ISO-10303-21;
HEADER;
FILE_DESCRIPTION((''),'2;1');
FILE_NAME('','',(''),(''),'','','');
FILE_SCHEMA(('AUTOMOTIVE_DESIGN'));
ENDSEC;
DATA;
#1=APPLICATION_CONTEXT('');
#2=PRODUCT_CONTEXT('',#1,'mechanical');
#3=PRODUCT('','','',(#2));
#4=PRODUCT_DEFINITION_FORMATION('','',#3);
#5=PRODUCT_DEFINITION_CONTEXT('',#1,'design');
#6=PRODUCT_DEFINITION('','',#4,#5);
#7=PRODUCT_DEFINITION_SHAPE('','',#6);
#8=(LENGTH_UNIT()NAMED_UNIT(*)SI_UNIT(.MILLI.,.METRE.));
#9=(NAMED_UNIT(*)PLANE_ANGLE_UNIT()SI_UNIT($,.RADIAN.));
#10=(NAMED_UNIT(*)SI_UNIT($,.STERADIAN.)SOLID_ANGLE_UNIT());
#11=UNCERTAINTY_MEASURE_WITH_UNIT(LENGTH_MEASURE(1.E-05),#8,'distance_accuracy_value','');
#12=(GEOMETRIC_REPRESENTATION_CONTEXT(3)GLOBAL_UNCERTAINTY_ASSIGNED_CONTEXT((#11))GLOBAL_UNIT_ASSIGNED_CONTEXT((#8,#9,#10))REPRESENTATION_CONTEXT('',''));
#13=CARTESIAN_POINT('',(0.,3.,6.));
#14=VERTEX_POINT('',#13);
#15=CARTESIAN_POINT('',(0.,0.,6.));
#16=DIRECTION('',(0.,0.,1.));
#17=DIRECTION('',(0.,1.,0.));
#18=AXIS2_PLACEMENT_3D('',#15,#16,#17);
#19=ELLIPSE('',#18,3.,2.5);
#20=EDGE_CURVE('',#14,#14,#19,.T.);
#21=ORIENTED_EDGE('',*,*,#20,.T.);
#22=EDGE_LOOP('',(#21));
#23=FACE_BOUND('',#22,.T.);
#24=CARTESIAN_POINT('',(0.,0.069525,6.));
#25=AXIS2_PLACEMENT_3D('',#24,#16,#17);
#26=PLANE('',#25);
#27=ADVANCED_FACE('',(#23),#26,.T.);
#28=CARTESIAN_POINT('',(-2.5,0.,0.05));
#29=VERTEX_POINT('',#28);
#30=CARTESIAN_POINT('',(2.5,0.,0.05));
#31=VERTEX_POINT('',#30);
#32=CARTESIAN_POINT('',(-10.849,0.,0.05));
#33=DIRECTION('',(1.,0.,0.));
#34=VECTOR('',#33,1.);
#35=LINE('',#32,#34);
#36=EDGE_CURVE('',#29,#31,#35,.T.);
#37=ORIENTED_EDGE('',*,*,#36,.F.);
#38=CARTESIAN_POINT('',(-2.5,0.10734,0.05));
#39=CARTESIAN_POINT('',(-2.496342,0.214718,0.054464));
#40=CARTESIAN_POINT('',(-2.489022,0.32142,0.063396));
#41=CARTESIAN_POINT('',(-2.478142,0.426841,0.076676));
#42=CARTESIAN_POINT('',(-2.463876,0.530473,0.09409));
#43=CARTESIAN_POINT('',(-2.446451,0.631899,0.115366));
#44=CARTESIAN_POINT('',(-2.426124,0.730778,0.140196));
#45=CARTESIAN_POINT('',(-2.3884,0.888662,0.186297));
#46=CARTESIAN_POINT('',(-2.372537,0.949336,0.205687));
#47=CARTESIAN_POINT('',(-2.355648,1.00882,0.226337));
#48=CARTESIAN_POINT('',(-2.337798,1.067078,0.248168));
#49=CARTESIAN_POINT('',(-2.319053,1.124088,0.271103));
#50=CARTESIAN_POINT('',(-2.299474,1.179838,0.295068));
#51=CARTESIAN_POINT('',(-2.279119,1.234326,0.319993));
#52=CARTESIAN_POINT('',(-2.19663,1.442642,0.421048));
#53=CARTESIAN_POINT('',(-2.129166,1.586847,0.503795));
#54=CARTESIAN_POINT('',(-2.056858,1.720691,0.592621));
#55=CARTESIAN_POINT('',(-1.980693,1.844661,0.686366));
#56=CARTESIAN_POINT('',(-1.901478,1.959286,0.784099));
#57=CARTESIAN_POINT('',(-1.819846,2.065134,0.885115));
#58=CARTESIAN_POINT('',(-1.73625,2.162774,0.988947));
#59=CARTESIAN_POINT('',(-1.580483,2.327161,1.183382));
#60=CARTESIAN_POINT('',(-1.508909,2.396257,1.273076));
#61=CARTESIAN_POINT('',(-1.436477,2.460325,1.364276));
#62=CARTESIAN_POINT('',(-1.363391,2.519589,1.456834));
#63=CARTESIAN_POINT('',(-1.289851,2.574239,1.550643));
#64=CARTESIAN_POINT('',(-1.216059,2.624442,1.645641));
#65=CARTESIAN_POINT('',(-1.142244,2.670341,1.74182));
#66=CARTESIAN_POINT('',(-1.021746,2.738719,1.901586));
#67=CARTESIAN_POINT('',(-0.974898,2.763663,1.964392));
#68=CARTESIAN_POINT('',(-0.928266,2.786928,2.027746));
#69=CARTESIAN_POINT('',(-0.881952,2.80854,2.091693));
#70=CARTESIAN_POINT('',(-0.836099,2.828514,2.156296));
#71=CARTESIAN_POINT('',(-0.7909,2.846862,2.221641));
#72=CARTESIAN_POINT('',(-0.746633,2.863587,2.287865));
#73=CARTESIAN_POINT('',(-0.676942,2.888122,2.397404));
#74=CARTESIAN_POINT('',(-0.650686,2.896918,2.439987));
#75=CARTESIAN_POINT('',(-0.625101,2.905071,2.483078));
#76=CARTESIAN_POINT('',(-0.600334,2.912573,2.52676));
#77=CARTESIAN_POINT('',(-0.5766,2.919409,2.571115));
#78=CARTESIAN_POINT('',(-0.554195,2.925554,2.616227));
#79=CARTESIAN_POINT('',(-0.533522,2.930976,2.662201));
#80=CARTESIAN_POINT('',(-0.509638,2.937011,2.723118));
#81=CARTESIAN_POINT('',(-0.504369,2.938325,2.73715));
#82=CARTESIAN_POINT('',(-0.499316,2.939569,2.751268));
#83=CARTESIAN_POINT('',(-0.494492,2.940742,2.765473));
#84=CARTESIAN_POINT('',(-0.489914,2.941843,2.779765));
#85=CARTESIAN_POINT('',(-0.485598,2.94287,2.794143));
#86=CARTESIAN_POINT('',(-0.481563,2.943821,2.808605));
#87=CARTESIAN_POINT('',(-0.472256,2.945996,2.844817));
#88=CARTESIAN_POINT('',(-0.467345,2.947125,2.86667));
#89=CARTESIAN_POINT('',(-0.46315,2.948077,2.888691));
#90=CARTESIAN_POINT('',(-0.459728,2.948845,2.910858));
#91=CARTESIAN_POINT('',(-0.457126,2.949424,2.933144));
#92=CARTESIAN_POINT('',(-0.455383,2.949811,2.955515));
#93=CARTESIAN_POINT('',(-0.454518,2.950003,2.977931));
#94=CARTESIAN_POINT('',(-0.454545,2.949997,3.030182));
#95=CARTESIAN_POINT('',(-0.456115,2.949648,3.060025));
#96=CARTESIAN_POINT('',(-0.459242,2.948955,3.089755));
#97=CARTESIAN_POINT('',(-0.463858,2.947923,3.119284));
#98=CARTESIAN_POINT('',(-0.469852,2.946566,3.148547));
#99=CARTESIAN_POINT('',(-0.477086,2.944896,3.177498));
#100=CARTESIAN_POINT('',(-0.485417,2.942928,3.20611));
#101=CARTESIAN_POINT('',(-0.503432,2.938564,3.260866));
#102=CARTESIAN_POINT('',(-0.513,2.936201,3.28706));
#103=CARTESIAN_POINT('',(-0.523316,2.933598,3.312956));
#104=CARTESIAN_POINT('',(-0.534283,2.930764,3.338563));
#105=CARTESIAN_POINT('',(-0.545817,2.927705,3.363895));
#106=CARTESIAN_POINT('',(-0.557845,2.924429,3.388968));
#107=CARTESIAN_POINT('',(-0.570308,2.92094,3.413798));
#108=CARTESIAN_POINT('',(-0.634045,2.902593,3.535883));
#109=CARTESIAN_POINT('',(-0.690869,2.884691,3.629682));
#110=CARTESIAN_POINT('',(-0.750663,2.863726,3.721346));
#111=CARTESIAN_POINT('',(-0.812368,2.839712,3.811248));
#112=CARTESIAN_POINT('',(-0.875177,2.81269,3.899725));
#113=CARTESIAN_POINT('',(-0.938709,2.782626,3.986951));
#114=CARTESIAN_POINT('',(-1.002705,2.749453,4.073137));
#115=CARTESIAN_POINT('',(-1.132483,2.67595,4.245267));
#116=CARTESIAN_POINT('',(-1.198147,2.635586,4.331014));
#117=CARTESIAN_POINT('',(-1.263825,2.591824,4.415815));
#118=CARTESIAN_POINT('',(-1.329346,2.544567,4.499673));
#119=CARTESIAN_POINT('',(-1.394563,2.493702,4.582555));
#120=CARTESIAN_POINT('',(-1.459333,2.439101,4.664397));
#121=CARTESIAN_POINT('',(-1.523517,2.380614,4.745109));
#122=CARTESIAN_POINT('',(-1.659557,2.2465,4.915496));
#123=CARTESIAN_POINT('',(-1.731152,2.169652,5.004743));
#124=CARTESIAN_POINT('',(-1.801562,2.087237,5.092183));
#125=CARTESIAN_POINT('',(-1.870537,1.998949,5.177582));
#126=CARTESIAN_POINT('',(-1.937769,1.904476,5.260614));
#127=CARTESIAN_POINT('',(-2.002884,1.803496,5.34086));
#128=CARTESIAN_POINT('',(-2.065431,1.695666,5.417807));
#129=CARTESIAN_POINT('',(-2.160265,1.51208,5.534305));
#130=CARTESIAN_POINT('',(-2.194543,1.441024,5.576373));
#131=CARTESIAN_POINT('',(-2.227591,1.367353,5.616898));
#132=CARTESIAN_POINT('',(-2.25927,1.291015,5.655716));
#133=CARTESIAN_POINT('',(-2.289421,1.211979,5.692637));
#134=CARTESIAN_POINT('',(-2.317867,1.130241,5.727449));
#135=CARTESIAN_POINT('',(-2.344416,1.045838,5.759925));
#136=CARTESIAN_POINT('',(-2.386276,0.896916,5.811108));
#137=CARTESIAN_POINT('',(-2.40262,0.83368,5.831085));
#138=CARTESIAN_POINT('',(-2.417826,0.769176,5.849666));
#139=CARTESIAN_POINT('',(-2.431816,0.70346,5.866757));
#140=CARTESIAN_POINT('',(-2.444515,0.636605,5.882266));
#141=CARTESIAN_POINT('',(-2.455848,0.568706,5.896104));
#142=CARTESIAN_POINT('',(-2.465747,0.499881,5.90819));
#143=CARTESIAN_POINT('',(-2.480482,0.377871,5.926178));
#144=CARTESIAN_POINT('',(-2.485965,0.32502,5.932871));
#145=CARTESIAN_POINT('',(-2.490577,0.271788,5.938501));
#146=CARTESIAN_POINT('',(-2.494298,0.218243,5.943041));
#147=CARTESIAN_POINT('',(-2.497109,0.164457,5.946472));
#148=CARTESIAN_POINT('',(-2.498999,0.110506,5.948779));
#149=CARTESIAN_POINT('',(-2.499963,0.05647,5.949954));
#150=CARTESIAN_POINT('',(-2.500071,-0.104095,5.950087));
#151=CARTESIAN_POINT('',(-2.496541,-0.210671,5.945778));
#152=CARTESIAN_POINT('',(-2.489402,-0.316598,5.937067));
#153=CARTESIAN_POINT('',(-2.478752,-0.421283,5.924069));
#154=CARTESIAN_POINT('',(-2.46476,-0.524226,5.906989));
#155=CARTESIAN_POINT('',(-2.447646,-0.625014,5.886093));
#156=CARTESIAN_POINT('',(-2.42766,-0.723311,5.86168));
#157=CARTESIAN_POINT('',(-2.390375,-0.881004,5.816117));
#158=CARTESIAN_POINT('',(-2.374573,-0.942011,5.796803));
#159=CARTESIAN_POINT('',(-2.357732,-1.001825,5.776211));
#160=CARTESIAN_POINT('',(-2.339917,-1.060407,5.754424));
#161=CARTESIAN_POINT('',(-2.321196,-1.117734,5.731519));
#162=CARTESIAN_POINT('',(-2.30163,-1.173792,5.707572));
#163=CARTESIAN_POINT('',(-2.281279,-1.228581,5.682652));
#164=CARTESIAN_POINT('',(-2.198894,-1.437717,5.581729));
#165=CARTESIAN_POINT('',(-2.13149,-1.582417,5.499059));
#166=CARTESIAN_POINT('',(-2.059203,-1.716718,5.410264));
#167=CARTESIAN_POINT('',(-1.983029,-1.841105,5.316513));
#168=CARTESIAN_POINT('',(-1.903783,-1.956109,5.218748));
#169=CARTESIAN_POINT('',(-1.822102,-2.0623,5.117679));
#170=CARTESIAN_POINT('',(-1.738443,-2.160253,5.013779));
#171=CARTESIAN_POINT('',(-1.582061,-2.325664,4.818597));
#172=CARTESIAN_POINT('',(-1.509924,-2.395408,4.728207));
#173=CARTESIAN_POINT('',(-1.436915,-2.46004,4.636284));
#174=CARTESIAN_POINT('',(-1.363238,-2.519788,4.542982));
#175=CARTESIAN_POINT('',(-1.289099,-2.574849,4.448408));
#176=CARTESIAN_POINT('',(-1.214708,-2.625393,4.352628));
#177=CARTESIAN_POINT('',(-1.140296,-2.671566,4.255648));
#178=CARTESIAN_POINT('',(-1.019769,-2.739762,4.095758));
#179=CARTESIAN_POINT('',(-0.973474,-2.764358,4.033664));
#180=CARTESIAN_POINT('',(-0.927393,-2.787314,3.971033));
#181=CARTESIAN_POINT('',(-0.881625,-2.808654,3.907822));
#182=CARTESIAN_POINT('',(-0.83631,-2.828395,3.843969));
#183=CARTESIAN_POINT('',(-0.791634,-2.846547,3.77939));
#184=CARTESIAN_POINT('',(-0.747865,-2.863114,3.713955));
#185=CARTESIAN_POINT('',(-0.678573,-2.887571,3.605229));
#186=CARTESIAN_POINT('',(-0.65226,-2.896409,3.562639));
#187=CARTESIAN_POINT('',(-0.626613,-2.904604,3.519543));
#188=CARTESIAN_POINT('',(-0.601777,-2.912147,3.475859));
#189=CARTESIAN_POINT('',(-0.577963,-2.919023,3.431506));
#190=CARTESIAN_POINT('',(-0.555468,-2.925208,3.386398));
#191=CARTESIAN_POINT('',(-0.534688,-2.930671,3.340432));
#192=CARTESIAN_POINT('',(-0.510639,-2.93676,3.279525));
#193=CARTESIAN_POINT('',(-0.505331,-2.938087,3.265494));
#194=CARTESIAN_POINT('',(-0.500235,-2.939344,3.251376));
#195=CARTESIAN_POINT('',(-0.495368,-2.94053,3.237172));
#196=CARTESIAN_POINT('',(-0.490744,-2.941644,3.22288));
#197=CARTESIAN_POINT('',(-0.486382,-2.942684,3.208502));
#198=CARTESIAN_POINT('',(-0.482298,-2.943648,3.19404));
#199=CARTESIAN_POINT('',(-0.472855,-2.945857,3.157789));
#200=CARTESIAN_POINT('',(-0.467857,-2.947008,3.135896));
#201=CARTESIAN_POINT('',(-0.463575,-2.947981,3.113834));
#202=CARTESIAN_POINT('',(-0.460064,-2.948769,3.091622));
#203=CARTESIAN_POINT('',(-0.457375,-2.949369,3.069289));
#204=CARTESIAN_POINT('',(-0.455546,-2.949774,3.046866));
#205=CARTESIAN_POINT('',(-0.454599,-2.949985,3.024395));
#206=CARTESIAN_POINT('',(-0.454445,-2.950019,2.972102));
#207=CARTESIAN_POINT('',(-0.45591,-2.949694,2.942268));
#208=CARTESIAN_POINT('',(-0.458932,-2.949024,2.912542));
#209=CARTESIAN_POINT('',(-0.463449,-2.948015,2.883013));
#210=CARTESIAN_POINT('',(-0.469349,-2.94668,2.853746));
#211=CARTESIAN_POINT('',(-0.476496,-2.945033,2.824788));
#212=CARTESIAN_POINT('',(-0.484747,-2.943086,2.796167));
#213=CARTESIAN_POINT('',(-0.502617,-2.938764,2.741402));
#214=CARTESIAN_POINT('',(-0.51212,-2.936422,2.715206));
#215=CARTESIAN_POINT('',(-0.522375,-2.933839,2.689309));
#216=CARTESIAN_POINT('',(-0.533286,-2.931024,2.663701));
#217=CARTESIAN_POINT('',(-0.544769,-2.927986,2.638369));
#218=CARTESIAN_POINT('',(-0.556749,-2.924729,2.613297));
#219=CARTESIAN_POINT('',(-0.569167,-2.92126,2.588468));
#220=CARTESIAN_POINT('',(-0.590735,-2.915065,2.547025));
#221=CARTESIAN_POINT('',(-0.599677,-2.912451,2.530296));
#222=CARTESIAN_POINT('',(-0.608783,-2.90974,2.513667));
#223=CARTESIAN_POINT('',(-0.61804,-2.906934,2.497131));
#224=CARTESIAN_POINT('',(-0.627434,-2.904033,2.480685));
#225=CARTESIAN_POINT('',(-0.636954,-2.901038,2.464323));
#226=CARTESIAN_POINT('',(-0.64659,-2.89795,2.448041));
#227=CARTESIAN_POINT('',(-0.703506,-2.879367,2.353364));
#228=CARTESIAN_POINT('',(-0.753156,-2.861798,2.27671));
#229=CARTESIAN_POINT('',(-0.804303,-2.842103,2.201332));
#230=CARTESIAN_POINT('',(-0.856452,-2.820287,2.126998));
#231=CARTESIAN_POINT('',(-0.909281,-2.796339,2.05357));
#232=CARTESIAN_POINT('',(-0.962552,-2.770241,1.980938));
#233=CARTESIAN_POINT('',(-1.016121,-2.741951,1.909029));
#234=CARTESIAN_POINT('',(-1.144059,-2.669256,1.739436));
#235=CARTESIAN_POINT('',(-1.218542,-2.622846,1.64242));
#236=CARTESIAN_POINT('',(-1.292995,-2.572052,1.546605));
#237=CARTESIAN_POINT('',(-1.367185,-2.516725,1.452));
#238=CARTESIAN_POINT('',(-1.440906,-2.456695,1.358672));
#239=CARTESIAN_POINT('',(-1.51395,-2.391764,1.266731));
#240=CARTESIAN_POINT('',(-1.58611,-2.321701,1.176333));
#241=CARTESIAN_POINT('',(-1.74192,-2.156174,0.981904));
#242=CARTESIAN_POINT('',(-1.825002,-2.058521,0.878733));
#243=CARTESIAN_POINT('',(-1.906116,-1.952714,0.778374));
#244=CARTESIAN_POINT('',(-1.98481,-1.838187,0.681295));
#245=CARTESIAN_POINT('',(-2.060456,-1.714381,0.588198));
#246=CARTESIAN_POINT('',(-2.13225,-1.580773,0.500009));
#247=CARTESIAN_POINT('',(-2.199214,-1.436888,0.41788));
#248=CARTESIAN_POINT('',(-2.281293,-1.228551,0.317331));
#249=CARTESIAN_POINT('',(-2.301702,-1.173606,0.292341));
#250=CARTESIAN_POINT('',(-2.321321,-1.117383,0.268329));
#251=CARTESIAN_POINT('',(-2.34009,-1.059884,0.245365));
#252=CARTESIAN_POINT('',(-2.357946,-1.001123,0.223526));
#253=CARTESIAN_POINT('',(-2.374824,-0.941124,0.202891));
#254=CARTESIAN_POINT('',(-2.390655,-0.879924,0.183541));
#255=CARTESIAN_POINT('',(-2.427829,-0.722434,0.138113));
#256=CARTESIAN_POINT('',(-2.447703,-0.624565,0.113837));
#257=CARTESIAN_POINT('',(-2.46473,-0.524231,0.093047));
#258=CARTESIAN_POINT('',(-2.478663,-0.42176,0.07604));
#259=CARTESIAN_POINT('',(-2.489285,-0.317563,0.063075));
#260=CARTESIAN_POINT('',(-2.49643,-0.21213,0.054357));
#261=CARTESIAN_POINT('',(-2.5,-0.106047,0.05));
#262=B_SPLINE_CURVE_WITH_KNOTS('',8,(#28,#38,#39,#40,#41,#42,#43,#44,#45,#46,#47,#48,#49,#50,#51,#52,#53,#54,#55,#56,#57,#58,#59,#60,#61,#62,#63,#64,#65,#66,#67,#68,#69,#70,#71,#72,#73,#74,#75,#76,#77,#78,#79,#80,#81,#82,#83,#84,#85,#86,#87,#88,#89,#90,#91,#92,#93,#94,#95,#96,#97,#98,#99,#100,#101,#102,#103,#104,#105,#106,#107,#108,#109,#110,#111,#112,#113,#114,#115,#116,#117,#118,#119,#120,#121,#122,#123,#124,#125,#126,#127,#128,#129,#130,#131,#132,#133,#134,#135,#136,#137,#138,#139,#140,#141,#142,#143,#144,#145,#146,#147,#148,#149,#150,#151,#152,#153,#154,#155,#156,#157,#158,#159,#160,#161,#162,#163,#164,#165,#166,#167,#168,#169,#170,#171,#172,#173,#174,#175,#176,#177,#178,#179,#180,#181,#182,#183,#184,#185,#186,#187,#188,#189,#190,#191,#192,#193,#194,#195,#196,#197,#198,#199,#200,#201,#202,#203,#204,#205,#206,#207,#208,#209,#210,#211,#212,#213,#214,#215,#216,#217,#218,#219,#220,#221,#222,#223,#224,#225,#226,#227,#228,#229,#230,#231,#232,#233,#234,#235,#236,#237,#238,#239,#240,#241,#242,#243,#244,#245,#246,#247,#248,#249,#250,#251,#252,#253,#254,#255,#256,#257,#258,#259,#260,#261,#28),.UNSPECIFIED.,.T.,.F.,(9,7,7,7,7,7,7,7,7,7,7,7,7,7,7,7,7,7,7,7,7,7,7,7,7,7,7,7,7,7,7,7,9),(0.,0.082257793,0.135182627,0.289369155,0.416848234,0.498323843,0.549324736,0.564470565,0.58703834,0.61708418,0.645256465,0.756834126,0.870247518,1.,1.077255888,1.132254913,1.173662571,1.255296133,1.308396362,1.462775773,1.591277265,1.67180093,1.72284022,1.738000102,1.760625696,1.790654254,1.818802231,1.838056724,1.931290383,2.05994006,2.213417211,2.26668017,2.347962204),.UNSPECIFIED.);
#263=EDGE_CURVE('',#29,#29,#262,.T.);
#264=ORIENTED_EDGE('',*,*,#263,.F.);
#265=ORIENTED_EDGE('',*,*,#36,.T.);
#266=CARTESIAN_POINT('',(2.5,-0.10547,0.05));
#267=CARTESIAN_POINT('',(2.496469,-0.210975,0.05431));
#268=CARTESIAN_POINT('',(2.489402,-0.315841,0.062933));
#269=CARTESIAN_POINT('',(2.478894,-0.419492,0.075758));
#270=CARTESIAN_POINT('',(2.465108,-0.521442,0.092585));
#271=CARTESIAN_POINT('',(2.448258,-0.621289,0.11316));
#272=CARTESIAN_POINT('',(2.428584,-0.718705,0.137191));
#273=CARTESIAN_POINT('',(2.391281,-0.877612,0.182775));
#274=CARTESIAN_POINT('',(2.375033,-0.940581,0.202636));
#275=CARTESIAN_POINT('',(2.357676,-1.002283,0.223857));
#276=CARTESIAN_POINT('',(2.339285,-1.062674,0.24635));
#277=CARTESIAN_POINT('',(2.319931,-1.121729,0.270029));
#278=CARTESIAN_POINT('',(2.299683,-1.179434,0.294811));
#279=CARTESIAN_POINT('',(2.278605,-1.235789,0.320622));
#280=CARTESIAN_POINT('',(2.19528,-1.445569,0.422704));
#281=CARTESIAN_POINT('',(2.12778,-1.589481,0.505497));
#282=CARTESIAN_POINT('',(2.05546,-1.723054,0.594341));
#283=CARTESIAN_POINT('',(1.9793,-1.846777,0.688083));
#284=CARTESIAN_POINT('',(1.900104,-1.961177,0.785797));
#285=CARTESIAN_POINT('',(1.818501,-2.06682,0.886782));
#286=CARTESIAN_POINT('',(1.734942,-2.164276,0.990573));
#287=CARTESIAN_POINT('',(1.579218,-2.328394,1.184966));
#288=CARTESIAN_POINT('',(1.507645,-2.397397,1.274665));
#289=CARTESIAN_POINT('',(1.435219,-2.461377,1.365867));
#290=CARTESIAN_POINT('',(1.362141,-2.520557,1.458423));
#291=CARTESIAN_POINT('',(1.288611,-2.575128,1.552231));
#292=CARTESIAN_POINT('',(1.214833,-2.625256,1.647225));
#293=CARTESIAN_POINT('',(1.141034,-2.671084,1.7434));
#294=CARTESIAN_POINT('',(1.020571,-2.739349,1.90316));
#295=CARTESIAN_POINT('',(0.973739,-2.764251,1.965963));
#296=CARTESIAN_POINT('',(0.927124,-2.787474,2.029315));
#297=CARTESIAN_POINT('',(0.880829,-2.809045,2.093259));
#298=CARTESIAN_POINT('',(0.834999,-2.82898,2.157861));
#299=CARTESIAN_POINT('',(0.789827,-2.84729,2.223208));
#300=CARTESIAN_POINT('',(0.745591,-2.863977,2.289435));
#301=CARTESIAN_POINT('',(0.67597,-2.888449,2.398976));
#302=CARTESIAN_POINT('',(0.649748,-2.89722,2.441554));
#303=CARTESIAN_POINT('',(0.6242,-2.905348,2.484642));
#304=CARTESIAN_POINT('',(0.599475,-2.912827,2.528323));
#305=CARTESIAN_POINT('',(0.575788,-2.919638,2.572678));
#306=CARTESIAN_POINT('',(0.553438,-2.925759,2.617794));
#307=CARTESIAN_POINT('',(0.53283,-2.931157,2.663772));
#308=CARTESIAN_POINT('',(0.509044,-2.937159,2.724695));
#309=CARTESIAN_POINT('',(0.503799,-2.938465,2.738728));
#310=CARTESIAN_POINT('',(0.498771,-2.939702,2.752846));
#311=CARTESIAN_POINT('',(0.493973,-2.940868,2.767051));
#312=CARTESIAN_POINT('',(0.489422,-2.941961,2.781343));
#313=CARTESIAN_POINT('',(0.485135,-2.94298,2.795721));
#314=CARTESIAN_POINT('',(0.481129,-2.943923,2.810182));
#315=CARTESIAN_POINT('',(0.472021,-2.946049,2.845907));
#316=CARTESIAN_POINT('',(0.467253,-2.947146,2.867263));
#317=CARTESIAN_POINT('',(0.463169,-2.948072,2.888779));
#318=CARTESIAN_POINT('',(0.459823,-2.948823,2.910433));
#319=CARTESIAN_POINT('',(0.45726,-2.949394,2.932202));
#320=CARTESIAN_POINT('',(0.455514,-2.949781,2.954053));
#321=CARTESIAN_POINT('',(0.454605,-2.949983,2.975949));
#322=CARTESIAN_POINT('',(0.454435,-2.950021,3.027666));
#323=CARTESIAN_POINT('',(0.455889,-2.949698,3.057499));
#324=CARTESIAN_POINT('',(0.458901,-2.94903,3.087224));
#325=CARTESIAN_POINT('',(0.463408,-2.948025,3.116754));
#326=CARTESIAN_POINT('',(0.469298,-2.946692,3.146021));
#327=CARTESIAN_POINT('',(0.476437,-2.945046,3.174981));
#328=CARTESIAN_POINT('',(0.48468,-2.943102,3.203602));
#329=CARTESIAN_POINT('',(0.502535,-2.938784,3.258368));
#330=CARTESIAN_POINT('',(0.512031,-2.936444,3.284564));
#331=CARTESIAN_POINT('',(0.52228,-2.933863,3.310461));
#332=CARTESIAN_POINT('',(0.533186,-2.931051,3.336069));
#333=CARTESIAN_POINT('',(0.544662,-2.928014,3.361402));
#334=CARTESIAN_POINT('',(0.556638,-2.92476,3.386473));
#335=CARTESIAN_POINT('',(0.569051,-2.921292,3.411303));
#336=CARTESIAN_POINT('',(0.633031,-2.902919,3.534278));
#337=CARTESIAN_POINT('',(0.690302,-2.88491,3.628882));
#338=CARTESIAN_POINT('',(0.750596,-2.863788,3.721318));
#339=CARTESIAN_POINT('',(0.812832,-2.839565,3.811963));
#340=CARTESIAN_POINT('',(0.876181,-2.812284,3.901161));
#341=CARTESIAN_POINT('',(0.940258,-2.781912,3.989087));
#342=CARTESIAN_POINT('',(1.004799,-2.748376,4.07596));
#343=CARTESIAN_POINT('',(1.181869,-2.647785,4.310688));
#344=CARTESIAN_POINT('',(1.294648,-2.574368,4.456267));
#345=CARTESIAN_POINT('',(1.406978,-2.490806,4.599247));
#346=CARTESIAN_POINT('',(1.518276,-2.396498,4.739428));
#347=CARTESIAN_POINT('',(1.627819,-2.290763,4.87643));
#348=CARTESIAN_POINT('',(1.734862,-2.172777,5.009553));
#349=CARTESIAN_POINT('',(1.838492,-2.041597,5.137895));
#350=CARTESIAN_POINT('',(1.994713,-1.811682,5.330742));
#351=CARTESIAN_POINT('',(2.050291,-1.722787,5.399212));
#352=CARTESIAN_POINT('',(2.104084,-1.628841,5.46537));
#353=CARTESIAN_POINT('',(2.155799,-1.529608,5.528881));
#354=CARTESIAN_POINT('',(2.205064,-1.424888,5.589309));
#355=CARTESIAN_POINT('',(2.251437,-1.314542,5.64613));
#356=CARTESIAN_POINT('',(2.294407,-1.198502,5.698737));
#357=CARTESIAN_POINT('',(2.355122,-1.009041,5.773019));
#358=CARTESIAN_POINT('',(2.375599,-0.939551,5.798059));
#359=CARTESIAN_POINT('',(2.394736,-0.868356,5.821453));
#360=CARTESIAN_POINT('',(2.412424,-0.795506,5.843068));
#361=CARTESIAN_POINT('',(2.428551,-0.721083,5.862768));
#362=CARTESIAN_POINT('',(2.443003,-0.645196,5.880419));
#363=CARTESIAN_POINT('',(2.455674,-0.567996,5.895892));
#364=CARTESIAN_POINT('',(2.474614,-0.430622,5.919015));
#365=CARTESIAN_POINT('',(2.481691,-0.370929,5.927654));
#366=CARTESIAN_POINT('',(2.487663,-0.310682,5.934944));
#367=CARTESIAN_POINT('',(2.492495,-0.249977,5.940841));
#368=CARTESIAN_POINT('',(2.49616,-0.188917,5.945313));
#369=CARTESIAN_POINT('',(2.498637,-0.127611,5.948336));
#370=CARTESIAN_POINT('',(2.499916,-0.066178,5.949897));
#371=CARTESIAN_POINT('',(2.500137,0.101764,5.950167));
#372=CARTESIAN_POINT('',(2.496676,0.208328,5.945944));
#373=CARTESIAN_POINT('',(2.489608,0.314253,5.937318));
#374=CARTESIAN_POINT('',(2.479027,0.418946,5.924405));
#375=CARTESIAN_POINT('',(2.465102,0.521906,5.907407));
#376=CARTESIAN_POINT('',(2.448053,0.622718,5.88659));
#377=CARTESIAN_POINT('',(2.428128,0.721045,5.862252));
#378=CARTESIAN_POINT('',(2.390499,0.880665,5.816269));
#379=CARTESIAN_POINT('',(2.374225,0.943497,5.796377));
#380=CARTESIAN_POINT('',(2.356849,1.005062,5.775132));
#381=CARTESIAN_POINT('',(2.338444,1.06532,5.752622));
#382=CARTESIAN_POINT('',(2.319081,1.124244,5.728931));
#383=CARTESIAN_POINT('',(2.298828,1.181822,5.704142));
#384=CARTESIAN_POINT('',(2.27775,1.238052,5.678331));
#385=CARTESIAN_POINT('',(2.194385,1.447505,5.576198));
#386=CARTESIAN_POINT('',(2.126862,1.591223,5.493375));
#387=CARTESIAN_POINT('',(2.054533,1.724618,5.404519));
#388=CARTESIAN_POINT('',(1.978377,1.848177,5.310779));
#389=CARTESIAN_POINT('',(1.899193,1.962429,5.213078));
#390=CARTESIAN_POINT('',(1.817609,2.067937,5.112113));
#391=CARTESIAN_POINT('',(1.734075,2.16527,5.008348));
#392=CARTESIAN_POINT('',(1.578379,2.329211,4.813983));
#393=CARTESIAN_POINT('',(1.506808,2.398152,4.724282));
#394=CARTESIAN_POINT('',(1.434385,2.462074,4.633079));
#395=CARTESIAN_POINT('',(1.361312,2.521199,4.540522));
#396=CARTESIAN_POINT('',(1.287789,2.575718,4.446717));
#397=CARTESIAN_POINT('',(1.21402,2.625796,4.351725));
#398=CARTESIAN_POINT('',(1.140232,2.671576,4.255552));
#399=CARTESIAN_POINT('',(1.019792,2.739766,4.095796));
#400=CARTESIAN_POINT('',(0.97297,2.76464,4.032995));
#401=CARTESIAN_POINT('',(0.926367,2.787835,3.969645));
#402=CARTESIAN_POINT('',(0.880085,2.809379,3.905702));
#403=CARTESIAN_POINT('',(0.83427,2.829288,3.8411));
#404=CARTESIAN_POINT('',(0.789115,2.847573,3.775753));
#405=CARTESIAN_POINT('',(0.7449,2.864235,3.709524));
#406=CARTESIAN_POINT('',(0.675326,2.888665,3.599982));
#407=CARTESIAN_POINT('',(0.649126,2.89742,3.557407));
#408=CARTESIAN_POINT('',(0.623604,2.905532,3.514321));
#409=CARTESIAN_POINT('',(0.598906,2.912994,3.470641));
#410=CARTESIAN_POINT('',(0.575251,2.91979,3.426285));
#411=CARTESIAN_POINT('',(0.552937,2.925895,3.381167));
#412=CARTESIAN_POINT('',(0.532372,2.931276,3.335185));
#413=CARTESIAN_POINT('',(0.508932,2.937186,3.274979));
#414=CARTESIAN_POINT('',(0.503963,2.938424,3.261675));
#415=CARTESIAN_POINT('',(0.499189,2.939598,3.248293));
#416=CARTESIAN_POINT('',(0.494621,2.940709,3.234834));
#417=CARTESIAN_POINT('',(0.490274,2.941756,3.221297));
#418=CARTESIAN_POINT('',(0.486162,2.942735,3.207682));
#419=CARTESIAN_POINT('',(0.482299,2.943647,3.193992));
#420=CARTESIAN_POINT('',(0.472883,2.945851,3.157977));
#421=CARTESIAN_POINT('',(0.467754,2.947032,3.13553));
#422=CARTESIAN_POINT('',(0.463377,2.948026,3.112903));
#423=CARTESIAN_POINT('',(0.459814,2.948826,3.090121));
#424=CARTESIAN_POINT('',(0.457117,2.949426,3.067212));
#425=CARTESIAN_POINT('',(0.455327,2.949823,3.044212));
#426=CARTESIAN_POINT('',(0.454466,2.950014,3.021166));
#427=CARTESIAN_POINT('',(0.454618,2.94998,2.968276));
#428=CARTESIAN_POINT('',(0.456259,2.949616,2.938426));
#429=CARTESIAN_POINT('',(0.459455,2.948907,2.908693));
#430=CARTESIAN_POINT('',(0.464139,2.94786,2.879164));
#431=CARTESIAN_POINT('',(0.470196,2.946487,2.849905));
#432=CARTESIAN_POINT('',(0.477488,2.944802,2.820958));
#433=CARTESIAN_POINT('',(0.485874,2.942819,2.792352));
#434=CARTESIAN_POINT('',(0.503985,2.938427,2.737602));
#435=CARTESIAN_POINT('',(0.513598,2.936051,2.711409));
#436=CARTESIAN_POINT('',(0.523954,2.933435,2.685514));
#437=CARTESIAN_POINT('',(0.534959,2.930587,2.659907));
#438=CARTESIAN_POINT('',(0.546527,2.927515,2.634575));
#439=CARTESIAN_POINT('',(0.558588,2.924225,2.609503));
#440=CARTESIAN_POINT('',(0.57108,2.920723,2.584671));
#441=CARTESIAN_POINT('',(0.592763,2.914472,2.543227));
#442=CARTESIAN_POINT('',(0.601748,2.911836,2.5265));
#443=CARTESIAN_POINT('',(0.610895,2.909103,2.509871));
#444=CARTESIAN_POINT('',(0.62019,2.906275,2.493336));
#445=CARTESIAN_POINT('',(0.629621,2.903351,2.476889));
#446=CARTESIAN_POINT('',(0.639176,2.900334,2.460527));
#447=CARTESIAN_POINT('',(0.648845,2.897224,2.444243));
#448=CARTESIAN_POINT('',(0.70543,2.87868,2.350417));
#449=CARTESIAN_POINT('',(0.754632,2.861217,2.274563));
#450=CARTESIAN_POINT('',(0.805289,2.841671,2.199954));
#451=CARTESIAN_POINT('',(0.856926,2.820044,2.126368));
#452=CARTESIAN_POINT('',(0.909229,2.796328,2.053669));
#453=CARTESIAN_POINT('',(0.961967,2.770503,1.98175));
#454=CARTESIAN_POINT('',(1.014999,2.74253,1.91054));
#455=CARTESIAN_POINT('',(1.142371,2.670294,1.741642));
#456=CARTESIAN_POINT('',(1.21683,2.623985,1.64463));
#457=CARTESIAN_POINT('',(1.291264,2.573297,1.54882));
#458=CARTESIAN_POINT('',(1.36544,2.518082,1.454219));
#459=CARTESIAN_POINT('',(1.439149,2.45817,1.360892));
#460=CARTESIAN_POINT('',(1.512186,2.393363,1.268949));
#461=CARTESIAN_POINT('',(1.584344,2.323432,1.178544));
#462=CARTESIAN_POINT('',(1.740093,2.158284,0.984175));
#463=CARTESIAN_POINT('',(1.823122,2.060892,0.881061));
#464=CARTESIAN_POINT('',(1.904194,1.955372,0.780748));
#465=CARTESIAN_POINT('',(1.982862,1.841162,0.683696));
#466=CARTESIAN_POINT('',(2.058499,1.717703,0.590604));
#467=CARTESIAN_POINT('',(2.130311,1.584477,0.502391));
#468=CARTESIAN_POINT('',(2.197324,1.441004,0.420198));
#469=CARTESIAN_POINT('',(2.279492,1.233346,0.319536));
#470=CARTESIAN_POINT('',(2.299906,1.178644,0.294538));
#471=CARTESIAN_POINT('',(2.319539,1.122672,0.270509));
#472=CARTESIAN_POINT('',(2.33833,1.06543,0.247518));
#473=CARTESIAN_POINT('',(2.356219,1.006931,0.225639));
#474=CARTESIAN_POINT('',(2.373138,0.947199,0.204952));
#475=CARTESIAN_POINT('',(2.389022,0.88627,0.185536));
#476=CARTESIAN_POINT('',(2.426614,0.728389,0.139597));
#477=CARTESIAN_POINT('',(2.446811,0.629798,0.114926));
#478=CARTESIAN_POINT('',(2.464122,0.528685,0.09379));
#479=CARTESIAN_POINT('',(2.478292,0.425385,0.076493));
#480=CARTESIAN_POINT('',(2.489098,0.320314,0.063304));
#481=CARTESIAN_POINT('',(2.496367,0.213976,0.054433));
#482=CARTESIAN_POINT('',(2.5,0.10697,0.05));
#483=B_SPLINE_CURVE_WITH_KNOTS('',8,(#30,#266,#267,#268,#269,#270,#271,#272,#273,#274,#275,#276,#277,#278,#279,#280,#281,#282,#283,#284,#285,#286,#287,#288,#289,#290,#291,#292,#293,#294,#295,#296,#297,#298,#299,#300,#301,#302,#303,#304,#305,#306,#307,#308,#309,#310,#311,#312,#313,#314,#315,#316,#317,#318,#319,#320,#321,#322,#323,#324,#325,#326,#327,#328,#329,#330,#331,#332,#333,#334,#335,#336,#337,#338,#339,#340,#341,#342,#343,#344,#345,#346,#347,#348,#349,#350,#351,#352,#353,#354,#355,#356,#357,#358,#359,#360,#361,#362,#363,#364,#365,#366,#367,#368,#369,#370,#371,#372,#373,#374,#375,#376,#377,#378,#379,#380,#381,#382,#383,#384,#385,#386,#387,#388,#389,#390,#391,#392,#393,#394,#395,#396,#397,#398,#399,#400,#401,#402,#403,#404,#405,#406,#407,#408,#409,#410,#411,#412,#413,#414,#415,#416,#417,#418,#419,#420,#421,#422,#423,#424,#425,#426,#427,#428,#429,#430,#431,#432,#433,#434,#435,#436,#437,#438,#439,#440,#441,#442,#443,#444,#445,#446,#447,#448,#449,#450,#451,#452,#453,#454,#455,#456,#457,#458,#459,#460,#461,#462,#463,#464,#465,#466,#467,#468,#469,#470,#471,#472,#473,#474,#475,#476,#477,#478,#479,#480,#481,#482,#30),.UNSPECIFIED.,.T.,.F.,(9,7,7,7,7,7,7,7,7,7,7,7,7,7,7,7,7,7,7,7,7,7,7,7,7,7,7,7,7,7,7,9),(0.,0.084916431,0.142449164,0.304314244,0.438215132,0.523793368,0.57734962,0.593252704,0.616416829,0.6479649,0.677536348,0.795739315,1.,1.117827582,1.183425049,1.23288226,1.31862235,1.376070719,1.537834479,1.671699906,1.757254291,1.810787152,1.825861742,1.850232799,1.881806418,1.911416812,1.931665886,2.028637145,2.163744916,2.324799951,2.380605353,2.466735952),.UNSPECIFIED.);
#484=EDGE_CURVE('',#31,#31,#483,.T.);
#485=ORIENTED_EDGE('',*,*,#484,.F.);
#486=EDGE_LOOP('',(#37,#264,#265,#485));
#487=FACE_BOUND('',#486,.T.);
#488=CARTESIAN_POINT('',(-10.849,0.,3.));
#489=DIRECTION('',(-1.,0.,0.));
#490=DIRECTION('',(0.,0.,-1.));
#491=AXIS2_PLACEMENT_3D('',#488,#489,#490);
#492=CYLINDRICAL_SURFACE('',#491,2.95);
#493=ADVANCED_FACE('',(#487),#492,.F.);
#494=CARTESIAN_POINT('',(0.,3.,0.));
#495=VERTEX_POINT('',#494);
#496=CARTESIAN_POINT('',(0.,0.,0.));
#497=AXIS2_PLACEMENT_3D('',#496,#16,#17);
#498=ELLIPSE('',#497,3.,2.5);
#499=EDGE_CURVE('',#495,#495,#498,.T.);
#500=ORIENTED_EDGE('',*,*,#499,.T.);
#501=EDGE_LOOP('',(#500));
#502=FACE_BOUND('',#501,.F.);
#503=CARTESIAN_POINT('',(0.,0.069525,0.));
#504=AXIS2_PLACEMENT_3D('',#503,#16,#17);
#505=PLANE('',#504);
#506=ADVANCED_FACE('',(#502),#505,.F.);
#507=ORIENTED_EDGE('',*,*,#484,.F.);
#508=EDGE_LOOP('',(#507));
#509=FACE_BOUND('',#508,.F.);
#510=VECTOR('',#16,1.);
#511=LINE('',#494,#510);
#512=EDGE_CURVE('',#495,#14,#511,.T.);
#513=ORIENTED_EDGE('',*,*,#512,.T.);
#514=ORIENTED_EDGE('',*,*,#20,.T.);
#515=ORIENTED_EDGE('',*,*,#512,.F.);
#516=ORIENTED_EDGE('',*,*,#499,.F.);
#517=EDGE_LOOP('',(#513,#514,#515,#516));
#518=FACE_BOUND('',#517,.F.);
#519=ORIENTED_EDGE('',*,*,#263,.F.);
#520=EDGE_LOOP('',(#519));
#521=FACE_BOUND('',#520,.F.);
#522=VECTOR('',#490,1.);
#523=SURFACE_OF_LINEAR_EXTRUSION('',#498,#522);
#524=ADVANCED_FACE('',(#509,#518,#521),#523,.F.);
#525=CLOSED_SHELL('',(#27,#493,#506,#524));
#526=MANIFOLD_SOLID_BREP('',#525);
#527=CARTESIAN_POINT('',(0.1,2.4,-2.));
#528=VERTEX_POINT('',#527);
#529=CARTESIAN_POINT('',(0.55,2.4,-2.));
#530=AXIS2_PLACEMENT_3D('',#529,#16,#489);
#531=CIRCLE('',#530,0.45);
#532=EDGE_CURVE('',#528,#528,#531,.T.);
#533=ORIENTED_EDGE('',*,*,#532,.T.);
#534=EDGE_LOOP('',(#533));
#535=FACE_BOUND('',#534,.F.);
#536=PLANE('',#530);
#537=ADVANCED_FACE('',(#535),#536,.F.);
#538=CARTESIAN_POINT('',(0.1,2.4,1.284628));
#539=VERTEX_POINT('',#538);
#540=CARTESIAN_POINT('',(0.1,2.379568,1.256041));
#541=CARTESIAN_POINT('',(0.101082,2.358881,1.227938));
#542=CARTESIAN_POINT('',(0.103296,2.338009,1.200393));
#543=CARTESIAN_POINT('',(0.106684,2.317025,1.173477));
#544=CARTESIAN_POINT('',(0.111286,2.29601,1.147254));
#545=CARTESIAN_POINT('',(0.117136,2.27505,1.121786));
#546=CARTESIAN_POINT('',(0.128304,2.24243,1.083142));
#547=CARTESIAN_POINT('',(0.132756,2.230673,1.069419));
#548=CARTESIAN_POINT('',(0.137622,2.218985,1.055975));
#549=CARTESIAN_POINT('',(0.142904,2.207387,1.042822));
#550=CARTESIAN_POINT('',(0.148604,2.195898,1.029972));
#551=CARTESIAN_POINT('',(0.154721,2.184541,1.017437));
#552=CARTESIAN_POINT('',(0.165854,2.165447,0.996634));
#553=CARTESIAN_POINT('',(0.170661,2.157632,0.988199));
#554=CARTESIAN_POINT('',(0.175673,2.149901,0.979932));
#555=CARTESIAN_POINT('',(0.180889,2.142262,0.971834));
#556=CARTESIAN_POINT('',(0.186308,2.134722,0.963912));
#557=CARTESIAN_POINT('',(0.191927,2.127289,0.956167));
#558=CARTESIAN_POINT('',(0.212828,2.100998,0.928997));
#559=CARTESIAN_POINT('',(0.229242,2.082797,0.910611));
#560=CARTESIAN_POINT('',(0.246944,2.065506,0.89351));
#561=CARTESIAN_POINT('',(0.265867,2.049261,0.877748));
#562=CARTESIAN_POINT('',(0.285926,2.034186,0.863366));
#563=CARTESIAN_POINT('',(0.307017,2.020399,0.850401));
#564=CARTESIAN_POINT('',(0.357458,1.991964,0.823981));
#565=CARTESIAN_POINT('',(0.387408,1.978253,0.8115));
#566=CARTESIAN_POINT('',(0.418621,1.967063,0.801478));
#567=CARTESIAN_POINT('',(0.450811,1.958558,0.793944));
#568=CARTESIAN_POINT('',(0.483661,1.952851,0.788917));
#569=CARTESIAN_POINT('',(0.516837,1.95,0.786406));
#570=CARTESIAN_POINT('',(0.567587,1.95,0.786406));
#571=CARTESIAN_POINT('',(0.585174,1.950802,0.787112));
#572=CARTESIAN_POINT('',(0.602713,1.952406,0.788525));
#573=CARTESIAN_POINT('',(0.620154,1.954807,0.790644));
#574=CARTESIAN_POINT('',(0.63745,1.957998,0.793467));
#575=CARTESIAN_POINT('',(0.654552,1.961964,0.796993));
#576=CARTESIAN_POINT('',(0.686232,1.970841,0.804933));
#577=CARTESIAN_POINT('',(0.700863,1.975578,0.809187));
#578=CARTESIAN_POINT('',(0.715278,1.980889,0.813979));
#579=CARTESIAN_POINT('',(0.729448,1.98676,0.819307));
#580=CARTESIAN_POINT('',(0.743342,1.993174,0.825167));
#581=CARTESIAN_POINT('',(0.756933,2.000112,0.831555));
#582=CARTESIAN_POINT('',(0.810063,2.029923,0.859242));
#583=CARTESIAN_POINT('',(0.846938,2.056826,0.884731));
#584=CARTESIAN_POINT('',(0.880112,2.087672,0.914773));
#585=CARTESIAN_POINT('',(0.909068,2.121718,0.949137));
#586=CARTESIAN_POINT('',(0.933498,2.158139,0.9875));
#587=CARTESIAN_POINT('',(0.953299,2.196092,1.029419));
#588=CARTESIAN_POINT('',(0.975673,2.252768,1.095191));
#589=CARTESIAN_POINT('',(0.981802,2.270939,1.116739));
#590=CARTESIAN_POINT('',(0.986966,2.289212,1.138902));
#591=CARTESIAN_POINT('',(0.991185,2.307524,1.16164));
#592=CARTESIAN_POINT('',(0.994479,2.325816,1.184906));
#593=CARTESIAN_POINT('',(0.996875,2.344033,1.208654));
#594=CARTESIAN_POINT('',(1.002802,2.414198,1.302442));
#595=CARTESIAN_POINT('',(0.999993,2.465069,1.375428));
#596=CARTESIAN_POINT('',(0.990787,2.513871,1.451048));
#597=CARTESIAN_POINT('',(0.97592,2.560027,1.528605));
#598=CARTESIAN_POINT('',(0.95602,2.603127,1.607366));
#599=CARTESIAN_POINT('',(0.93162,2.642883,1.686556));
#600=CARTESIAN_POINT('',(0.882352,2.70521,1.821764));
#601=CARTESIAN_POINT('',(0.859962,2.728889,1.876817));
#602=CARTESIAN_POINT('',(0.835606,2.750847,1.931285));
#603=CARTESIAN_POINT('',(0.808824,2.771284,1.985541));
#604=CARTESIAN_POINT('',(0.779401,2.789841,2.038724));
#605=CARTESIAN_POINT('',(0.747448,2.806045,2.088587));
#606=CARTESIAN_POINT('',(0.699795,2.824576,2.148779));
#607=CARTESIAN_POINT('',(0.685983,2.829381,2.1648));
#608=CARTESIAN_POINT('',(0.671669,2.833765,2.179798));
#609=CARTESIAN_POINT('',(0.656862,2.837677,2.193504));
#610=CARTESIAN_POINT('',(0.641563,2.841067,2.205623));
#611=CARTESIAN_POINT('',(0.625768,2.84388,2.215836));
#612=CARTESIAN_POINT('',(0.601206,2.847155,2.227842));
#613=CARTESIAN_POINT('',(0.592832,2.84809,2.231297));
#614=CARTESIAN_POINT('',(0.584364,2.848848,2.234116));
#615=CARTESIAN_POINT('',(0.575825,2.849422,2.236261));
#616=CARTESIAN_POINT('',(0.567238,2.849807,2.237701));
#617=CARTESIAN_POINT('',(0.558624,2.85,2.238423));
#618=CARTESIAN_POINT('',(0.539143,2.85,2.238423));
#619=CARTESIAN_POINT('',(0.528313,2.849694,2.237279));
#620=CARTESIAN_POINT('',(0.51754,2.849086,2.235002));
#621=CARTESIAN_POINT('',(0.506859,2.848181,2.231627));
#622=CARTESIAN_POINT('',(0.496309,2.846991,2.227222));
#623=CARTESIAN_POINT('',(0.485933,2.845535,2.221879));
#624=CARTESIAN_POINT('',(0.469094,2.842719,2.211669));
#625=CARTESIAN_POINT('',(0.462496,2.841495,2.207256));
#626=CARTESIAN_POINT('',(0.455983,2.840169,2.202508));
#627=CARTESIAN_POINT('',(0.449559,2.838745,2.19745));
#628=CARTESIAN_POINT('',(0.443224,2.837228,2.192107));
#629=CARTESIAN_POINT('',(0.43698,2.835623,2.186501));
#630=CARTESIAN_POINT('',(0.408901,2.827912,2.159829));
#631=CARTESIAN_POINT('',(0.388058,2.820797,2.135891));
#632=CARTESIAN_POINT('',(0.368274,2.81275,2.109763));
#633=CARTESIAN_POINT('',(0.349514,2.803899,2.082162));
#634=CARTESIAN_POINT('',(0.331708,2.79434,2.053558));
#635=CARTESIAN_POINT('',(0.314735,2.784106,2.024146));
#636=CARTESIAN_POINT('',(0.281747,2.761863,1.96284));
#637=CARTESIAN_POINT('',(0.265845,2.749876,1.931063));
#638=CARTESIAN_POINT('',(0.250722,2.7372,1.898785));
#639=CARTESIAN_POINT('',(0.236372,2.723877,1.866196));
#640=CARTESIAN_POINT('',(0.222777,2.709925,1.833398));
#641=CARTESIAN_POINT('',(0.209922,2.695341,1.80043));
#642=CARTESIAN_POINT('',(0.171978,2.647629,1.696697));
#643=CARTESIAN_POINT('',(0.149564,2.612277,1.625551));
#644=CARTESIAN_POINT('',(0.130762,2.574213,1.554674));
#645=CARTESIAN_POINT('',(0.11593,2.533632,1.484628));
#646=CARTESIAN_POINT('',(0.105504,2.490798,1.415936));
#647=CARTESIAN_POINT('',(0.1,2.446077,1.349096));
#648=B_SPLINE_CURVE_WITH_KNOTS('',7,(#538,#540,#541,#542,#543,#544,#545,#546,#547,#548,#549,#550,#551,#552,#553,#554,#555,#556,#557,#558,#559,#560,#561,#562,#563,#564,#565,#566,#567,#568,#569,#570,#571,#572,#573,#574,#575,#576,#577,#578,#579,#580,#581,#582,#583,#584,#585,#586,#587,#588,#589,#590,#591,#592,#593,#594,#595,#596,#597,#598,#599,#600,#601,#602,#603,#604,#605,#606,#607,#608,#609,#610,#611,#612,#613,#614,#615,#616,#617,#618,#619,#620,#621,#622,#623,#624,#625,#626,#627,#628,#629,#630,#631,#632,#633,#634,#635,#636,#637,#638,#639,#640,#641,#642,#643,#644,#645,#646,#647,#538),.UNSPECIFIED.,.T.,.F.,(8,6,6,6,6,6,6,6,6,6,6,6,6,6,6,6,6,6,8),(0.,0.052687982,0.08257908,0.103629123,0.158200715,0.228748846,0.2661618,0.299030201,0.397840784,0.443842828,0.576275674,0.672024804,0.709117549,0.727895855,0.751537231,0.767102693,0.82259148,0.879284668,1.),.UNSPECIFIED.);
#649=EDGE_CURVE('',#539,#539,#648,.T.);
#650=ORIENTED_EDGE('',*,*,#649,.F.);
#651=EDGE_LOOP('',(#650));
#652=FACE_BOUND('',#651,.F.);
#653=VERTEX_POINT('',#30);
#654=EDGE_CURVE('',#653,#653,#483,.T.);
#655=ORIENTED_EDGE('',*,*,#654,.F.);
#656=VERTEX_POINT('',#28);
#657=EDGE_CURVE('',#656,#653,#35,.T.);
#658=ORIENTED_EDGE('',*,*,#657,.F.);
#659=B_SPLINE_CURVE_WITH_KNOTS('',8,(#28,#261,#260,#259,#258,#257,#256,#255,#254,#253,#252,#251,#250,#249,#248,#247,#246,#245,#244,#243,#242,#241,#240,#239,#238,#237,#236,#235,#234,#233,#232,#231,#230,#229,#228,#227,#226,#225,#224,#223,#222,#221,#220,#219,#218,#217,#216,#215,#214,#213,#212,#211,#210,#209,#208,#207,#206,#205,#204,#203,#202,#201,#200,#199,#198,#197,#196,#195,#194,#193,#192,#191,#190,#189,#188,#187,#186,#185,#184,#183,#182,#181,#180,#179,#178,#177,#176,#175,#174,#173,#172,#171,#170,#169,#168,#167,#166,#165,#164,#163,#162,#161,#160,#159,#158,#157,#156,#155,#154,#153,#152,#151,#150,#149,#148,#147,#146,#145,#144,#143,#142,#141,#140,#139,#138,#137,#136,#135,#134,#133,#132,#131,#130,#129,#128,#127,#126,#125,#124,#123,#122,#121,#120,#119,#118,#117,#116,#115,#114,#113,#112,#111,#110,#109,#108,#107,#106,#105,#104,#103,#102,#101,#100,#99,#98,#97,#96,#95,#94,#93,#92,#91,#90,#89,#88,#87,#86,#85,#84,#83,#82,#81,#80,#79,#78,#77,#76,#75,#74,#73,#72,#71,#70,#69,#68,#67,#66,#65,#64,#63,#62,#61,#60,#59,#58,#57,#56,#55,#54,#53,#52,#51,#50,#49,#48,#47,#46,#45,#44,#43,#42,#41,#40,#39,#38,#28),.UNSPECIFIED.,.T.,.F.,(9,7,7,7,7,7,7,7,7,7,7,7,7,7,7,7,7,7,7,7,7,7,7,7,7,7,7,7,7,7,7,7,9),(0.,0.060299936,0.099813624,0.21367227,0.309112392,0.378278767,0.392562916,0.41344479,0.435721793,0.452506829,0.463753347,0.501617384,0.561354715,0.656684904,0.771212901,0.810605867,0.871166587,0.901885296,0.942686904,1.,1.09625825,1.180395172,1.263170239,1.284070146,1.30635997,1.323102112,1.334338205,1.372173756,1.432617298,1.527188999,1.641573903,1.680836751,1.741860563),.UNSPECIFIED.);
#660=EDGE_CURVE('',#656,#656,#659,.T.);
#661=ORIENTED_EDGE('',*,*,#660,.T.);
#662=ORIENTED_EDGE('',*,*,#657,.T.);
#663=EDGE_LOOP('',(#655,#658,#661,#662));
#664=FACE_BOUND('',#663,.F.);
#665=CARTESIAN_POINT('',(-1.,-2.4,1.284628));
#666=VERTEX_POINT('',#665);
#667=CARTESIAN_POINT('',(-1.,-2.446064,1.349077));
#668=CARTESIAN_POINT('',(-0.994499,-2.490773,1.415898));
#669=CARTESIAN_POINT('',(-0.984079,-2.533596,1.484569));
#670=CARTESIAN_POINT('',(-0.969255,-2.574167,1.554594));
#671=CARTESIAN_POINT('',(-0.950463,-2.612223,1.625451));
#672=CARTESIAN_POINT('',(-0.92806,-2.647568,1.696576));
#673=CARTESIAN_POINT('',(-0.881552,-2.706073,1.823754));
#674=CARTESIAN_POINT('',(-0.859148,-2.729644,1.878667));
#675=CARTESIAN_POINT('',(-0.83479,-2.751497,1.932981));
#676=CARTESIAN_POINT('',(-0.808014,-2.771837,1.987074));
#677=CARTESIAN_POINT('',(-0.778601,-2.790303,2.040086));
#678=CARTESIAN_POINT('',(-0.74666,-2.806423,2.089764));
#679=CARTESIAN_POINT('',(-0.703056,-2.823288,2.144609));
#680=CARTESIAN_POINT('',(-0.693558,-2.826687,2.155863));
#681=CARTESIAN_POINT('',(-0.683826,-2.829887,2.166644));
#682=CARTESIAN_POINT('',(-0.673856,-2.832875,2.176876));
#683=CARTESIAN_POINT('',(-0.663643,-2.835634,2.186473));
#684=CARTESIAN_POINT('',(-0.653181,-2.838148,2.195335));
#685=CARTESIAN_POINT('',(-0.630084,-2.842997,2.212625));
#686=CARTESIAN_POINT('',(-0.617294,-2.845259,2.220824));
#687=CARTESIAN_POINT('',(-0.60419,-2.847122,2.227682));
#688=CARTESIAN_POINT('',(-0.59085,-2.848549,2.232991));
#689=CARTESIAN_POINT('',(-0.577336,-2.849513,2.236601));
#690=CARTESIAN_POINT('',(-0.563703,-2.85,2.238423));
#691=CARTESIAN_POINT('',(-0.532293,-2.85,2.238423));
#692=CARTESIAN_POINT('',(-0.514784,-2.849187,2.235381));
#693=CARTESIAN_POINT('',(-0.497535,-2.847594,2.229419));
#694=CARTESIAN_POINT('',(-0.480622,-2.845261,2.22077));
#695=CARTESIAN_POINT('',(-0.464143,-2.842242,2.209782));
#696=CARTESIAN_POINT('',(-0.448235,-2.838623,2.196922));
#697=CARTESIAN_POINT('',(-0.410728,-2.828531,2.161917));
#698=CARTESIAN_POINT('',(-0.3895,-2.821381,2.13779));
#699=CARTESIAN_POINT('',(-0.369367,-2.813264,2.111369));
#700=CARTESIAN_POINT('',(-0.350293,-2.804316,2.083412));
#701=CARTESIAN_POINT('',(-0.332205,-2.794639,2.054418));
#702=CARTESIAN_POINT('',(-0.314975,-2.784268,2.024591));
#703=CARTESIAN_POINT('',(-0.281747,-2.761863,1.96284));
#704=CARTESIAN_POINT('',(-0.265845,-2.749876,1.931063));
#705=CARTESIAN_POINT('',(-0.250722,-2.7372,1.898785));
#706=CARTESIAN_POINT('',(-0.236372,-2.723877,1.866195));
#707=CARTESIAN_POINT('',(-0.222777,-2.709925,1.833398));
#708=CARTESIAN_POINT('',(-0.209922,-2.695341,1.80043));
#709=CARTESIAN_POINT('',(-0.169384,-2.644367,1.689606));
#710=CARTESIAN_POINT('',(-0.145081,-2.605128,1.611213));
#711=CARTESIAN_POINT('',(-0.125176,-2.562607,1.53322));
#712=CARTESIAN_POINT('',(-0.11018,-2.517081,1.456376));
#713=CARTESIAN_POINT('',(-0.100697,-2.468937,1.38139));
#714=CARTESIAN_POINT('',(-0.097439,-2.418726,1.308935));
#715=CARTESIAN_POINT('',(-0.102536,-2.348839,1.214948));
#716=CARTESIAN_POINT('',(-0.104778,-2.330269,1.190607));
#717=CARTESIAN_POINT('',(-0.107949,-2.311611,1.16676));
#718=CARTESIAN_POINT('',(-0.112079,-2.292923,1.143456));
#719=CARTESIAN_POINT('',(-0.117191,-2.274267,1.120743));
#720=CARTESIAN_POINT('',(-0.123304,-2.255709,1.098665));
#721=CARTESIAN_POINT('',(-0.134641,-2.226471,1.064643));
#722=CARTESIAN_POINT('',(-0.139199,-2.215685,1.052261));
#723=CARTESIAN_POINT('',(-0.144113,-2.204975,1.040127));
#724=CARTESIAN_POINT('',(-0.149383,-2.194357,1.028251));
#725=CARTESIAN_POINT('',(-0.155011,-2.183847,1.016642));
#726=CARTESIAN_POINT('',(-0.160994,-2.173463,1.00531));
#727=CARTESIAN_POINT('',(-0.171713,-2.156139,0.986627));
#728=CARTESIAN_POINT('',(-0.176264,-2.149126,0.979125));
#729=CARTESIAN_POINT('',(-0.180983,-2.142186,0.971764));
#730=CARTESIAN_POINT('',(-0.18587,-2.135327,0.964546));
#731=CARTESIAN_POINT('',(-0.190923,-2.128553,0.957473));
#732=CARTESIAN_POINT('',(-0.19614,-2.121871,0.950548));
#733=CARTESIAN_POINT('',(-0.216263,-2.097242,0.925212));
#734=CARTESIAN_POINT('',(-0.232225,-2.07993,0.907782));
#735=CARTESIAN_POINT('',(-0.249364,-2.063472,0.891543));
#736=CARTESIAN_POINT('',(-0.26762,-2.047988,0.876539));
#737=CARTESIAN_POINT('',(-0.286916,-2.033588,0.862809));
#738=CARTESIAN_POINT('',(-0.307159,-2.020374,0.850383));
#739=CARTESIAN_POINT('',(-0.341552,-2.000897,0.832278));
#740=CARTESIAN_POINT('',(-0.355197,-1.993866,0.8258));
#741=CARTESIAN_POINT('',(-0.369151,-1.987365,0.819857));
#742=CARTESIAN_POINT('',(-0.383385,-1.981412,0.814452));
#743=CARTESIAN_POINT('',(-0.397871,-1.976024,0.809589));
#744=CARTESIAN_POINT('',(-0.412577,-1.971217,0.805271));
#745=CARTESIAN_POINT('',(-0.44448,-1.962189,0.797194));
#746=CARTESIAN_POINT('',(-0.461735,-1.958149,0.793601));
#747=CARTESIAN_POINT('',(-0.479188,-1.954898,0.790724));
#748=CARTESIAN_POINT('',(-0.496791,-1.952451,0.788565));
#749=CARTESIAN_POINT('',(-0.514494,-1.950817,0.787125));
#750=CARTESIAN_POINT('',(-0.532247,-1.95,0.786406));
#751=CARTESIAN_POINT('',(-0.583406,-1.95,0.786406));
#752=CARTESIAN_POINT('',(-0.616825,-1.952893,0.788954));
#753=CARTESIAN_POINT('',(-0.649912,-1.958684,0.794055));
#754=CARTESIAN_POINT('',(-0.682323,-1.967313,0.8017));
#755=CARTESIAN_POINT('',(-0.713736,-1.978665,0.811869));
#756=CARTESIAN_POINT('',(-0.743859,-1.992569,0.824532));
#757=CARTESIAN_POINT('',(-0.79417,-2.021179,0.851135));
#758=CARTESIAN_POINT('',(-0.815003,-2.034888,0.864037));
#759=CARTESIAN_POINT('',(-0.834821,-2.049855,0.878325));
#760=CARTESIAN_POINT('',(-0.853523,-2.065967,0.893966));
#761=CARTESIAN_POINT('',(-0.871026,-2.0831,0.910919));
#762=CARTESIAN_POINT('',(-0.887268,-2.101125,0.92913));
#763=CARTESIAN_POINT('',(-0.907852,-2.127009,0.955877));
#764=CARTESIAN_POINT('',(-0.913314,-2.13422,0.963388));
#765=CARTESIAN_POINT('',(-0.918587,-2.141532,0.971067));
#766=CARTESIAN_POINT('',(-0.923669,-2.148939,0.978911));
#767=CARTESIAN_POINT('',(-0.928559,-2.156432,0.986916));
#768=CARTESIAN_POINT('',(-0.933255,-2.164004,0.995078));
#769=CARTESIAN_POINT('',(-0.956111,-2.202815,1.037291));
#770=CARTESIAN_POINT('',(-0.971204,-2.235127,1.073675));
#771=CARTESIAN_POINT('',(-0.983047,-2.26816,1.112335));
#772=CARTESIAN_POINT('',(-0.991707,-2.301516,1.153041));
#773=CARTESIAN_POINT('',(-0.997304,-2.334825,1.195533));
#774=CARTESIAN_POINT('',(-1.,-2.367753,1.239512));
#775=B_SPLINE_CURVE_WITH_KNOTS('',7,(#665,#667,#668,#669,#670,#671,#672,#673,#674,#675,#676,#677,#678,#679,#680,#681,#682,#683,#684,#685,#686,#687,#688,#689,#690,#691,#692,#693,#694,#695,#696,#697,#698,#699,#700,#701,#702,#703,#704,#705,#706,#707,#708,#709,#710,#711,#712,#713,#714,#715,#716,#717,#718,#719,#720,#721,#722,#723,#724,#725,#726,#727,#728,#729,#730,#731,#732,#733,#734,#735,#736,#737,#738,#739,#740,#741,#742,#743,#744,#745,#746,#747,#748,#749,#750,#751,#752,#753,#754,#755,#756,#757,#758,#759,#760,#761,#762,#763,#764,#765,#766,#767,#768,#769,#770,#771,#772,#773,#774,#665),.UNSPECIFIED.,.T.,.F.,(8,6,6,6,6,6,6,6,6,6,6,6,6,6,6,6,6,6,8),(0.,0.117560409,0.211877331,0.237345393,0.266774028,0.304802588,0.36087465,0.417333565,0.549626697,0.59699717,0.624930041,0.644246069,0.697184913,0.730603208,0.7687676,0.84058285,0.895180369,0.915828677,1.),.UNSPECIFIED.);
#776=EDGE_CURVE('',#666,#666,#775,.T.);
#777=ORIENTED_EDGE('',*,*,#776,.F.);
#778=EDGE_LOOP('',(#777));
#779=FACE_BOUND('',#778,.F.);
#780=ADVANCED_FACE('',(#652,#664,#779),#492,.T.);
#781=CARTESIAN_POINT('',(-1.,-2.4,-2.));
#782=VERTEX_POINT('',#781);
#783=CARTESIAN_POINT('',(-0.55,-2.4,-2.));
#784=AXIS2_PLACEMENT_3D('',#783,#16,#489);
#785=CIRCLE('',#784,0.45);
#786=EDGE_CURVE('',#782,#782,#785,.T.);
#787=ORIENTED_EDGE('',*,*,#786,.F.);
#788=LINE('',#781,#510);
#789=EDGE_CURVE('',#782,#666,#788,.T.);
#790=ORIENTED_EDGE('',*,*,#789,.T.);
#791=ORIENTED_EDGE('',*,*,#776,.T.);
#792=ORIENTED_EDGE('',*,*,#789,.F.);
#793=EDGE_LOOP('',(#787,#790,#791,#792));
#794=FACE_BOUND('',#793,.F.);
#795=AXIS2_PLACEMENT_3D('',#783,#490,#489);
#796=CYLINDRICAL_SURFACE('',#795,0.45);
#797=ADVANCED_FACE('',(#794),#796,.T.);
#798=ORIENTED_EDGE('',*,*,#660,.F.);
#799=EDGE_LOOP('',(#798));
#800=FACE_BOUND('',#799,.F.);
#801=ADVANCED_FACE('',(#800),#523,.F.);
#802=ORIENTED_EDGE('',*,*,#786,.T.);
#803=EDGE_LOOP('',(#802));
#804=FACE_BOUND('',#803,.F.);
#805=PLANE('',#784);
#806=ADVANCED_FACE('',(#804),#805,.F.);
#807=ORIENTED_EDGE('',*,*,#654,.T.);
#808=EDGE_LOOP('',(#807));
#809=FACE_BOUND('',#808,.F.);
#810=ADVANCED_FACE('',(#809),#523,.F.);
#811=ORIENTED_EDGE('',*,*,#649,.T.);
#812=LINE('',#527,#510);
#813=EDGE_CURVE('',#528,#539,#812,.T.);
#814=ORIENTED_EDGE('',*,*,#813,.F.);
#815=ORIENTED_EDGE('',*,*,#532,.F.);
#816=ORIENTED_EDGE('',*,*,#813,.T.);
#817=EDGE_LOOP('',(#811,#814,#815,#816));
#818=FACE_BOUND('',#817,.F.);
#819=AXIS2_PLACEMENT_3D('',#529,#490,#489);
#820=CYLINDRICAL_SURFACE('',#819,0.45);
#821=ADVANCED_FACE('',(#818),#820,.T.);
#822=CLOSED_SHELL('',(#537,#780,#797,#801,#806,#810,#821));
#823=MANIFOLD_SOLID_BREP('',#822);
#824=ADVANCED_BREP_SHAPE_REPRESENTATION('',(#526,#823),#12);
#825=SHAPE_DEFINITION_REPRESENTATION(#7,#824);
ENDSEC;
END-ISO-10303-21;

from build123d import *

# Parameters (mm, degrees)
ESQUISSE1_RX                 = 3
ESQUISSE1_RY                 = 2.5
EXTRUSION1_DEPTH             = 6
FRACTIONNER3_SURFACE_1_BACK  = 10.849
FRACTIONNER3_SURFACE_1_DEPTH = 21.698
FRACTIONNER3_SURFACE_2_BACK  = 10.849
FRACTIONNER3_SURFACE_2_DEPTH = 21.698
EXTRUSION3_REACH             = 10.902
ESQUISSE3_R                  = 0.45


with BuildPart() as part:
    # Esquisse1 → Extrusion1 (new body)
    with BuildSketch(Plane.XY):
        with Locations(Location((0, 0), (0, 0, 90))):
            Ellipse(ESQUISSE1_RX, ESQUISSE1_RY)
    extrude(amount=EXTRUSION1_DEPTH)


with BuildPart() as body_2:
    # Fractionner3: the piece behind the surface
    add(part.part)
    # Fractionner3 surface: a surface, the sketch's curves swept straight by 21.698 mm
    with BuildLine(Plane(origin=(0, 0, 0), x_dir=(0, 0, -1), z_dir=(1, 0, 0)).offset(-FRACTIONNER3_SURFACE_1_BACK), mode=Mode.PRIVATE) as fractionner3_surface_1_path:
        CenterArc((-3, 0), 2.95, 0, 360)
    fractionner3_surface_1 = Shell.extrude(fractionner3_surface_1_path.wire(), (1 * FRACTIONNER3_SURFACE_1_DEPTH, 0 * FRACTIONNER3_SURFACE_1_DEPTH, 0 * FRACTIONNER3_SURFACE_1_DEPTH))
    split(bisect_by=fractionner3_surface_1, keep=Keep.BOTTOM)


with BuildPart() as part_1:
    add(part.part)

    # Fractionner3: split by a surface, the side it looks to stays
    # Fractionner3 surface: a surface, the sketch's curves swept straight by 21.698 mm
    with BuildLine(Plane(origin=(0, 0, 0), x_dir=(0, 0, -1), z_dir=(1, 0, 0)).offset(-FRACTIONNER3_SURFACE_2_BACK), mode=Mode.PRIVATE) as fractionner3_surface_2_path:
        CenterArc((-3, 0), 2.95, 0, 360)
    fractionner3_surface_2 = Shell.extrude(fractionner3_surface_2_path.wire(), (1 * FRACTIONNER3_SURFACE_2_DEPTH, 0 * FRACTIONNER3_SURFACE_2_DEPTH, 0 * FRACTIONNER3_SURFACE_2_DEPTH))
    split(bisect_by=fractionner3_surface_2, keep=Keep.TOP)

    # Esquisse3 → Extrusion3 (add, up to next)
    with BuildSketch(Plane.XY.offset(-2), mode=Mode.PRIVATE) as extrusion3_sk1:
        with Locations(Location((0.55, 2.4, 0), (0, 0, 180))):
            Circle(ESQUISSE3_R)
    extrusion3_tool1 = extrude(extrusion3_sk1.sketch, amount=EXTRUSION3_REACH, mode=Mode.PRIVATE) - part_1.part
    # Esquisse3 → Extrusion3 (add, up to next)
    with BuildSketch(Plane.XY.offset(-2), mode=Mode.PRIVATE) as extrusion3_sk2:
        with Locations(Location((-0.55, -2.4, 0), (0, 0, 180))):
            Circle(ESQUISSE3_R)
    extrusion3_tool2 = extrude(extrusion3_sk2.sketch, amount=EXTRUSION3_REACH, mode=Mode.PRIVATE) - part_1.part
    add(extrusion3_tool1.solids().sort_by_distance((0.55, 2.4, -2))[0])
    add(extrusion3_tool2.solids().sort_by_distance((-0.55, -2.4, -2))[0])


solid = Compound([body_2.part, part_1.part])
